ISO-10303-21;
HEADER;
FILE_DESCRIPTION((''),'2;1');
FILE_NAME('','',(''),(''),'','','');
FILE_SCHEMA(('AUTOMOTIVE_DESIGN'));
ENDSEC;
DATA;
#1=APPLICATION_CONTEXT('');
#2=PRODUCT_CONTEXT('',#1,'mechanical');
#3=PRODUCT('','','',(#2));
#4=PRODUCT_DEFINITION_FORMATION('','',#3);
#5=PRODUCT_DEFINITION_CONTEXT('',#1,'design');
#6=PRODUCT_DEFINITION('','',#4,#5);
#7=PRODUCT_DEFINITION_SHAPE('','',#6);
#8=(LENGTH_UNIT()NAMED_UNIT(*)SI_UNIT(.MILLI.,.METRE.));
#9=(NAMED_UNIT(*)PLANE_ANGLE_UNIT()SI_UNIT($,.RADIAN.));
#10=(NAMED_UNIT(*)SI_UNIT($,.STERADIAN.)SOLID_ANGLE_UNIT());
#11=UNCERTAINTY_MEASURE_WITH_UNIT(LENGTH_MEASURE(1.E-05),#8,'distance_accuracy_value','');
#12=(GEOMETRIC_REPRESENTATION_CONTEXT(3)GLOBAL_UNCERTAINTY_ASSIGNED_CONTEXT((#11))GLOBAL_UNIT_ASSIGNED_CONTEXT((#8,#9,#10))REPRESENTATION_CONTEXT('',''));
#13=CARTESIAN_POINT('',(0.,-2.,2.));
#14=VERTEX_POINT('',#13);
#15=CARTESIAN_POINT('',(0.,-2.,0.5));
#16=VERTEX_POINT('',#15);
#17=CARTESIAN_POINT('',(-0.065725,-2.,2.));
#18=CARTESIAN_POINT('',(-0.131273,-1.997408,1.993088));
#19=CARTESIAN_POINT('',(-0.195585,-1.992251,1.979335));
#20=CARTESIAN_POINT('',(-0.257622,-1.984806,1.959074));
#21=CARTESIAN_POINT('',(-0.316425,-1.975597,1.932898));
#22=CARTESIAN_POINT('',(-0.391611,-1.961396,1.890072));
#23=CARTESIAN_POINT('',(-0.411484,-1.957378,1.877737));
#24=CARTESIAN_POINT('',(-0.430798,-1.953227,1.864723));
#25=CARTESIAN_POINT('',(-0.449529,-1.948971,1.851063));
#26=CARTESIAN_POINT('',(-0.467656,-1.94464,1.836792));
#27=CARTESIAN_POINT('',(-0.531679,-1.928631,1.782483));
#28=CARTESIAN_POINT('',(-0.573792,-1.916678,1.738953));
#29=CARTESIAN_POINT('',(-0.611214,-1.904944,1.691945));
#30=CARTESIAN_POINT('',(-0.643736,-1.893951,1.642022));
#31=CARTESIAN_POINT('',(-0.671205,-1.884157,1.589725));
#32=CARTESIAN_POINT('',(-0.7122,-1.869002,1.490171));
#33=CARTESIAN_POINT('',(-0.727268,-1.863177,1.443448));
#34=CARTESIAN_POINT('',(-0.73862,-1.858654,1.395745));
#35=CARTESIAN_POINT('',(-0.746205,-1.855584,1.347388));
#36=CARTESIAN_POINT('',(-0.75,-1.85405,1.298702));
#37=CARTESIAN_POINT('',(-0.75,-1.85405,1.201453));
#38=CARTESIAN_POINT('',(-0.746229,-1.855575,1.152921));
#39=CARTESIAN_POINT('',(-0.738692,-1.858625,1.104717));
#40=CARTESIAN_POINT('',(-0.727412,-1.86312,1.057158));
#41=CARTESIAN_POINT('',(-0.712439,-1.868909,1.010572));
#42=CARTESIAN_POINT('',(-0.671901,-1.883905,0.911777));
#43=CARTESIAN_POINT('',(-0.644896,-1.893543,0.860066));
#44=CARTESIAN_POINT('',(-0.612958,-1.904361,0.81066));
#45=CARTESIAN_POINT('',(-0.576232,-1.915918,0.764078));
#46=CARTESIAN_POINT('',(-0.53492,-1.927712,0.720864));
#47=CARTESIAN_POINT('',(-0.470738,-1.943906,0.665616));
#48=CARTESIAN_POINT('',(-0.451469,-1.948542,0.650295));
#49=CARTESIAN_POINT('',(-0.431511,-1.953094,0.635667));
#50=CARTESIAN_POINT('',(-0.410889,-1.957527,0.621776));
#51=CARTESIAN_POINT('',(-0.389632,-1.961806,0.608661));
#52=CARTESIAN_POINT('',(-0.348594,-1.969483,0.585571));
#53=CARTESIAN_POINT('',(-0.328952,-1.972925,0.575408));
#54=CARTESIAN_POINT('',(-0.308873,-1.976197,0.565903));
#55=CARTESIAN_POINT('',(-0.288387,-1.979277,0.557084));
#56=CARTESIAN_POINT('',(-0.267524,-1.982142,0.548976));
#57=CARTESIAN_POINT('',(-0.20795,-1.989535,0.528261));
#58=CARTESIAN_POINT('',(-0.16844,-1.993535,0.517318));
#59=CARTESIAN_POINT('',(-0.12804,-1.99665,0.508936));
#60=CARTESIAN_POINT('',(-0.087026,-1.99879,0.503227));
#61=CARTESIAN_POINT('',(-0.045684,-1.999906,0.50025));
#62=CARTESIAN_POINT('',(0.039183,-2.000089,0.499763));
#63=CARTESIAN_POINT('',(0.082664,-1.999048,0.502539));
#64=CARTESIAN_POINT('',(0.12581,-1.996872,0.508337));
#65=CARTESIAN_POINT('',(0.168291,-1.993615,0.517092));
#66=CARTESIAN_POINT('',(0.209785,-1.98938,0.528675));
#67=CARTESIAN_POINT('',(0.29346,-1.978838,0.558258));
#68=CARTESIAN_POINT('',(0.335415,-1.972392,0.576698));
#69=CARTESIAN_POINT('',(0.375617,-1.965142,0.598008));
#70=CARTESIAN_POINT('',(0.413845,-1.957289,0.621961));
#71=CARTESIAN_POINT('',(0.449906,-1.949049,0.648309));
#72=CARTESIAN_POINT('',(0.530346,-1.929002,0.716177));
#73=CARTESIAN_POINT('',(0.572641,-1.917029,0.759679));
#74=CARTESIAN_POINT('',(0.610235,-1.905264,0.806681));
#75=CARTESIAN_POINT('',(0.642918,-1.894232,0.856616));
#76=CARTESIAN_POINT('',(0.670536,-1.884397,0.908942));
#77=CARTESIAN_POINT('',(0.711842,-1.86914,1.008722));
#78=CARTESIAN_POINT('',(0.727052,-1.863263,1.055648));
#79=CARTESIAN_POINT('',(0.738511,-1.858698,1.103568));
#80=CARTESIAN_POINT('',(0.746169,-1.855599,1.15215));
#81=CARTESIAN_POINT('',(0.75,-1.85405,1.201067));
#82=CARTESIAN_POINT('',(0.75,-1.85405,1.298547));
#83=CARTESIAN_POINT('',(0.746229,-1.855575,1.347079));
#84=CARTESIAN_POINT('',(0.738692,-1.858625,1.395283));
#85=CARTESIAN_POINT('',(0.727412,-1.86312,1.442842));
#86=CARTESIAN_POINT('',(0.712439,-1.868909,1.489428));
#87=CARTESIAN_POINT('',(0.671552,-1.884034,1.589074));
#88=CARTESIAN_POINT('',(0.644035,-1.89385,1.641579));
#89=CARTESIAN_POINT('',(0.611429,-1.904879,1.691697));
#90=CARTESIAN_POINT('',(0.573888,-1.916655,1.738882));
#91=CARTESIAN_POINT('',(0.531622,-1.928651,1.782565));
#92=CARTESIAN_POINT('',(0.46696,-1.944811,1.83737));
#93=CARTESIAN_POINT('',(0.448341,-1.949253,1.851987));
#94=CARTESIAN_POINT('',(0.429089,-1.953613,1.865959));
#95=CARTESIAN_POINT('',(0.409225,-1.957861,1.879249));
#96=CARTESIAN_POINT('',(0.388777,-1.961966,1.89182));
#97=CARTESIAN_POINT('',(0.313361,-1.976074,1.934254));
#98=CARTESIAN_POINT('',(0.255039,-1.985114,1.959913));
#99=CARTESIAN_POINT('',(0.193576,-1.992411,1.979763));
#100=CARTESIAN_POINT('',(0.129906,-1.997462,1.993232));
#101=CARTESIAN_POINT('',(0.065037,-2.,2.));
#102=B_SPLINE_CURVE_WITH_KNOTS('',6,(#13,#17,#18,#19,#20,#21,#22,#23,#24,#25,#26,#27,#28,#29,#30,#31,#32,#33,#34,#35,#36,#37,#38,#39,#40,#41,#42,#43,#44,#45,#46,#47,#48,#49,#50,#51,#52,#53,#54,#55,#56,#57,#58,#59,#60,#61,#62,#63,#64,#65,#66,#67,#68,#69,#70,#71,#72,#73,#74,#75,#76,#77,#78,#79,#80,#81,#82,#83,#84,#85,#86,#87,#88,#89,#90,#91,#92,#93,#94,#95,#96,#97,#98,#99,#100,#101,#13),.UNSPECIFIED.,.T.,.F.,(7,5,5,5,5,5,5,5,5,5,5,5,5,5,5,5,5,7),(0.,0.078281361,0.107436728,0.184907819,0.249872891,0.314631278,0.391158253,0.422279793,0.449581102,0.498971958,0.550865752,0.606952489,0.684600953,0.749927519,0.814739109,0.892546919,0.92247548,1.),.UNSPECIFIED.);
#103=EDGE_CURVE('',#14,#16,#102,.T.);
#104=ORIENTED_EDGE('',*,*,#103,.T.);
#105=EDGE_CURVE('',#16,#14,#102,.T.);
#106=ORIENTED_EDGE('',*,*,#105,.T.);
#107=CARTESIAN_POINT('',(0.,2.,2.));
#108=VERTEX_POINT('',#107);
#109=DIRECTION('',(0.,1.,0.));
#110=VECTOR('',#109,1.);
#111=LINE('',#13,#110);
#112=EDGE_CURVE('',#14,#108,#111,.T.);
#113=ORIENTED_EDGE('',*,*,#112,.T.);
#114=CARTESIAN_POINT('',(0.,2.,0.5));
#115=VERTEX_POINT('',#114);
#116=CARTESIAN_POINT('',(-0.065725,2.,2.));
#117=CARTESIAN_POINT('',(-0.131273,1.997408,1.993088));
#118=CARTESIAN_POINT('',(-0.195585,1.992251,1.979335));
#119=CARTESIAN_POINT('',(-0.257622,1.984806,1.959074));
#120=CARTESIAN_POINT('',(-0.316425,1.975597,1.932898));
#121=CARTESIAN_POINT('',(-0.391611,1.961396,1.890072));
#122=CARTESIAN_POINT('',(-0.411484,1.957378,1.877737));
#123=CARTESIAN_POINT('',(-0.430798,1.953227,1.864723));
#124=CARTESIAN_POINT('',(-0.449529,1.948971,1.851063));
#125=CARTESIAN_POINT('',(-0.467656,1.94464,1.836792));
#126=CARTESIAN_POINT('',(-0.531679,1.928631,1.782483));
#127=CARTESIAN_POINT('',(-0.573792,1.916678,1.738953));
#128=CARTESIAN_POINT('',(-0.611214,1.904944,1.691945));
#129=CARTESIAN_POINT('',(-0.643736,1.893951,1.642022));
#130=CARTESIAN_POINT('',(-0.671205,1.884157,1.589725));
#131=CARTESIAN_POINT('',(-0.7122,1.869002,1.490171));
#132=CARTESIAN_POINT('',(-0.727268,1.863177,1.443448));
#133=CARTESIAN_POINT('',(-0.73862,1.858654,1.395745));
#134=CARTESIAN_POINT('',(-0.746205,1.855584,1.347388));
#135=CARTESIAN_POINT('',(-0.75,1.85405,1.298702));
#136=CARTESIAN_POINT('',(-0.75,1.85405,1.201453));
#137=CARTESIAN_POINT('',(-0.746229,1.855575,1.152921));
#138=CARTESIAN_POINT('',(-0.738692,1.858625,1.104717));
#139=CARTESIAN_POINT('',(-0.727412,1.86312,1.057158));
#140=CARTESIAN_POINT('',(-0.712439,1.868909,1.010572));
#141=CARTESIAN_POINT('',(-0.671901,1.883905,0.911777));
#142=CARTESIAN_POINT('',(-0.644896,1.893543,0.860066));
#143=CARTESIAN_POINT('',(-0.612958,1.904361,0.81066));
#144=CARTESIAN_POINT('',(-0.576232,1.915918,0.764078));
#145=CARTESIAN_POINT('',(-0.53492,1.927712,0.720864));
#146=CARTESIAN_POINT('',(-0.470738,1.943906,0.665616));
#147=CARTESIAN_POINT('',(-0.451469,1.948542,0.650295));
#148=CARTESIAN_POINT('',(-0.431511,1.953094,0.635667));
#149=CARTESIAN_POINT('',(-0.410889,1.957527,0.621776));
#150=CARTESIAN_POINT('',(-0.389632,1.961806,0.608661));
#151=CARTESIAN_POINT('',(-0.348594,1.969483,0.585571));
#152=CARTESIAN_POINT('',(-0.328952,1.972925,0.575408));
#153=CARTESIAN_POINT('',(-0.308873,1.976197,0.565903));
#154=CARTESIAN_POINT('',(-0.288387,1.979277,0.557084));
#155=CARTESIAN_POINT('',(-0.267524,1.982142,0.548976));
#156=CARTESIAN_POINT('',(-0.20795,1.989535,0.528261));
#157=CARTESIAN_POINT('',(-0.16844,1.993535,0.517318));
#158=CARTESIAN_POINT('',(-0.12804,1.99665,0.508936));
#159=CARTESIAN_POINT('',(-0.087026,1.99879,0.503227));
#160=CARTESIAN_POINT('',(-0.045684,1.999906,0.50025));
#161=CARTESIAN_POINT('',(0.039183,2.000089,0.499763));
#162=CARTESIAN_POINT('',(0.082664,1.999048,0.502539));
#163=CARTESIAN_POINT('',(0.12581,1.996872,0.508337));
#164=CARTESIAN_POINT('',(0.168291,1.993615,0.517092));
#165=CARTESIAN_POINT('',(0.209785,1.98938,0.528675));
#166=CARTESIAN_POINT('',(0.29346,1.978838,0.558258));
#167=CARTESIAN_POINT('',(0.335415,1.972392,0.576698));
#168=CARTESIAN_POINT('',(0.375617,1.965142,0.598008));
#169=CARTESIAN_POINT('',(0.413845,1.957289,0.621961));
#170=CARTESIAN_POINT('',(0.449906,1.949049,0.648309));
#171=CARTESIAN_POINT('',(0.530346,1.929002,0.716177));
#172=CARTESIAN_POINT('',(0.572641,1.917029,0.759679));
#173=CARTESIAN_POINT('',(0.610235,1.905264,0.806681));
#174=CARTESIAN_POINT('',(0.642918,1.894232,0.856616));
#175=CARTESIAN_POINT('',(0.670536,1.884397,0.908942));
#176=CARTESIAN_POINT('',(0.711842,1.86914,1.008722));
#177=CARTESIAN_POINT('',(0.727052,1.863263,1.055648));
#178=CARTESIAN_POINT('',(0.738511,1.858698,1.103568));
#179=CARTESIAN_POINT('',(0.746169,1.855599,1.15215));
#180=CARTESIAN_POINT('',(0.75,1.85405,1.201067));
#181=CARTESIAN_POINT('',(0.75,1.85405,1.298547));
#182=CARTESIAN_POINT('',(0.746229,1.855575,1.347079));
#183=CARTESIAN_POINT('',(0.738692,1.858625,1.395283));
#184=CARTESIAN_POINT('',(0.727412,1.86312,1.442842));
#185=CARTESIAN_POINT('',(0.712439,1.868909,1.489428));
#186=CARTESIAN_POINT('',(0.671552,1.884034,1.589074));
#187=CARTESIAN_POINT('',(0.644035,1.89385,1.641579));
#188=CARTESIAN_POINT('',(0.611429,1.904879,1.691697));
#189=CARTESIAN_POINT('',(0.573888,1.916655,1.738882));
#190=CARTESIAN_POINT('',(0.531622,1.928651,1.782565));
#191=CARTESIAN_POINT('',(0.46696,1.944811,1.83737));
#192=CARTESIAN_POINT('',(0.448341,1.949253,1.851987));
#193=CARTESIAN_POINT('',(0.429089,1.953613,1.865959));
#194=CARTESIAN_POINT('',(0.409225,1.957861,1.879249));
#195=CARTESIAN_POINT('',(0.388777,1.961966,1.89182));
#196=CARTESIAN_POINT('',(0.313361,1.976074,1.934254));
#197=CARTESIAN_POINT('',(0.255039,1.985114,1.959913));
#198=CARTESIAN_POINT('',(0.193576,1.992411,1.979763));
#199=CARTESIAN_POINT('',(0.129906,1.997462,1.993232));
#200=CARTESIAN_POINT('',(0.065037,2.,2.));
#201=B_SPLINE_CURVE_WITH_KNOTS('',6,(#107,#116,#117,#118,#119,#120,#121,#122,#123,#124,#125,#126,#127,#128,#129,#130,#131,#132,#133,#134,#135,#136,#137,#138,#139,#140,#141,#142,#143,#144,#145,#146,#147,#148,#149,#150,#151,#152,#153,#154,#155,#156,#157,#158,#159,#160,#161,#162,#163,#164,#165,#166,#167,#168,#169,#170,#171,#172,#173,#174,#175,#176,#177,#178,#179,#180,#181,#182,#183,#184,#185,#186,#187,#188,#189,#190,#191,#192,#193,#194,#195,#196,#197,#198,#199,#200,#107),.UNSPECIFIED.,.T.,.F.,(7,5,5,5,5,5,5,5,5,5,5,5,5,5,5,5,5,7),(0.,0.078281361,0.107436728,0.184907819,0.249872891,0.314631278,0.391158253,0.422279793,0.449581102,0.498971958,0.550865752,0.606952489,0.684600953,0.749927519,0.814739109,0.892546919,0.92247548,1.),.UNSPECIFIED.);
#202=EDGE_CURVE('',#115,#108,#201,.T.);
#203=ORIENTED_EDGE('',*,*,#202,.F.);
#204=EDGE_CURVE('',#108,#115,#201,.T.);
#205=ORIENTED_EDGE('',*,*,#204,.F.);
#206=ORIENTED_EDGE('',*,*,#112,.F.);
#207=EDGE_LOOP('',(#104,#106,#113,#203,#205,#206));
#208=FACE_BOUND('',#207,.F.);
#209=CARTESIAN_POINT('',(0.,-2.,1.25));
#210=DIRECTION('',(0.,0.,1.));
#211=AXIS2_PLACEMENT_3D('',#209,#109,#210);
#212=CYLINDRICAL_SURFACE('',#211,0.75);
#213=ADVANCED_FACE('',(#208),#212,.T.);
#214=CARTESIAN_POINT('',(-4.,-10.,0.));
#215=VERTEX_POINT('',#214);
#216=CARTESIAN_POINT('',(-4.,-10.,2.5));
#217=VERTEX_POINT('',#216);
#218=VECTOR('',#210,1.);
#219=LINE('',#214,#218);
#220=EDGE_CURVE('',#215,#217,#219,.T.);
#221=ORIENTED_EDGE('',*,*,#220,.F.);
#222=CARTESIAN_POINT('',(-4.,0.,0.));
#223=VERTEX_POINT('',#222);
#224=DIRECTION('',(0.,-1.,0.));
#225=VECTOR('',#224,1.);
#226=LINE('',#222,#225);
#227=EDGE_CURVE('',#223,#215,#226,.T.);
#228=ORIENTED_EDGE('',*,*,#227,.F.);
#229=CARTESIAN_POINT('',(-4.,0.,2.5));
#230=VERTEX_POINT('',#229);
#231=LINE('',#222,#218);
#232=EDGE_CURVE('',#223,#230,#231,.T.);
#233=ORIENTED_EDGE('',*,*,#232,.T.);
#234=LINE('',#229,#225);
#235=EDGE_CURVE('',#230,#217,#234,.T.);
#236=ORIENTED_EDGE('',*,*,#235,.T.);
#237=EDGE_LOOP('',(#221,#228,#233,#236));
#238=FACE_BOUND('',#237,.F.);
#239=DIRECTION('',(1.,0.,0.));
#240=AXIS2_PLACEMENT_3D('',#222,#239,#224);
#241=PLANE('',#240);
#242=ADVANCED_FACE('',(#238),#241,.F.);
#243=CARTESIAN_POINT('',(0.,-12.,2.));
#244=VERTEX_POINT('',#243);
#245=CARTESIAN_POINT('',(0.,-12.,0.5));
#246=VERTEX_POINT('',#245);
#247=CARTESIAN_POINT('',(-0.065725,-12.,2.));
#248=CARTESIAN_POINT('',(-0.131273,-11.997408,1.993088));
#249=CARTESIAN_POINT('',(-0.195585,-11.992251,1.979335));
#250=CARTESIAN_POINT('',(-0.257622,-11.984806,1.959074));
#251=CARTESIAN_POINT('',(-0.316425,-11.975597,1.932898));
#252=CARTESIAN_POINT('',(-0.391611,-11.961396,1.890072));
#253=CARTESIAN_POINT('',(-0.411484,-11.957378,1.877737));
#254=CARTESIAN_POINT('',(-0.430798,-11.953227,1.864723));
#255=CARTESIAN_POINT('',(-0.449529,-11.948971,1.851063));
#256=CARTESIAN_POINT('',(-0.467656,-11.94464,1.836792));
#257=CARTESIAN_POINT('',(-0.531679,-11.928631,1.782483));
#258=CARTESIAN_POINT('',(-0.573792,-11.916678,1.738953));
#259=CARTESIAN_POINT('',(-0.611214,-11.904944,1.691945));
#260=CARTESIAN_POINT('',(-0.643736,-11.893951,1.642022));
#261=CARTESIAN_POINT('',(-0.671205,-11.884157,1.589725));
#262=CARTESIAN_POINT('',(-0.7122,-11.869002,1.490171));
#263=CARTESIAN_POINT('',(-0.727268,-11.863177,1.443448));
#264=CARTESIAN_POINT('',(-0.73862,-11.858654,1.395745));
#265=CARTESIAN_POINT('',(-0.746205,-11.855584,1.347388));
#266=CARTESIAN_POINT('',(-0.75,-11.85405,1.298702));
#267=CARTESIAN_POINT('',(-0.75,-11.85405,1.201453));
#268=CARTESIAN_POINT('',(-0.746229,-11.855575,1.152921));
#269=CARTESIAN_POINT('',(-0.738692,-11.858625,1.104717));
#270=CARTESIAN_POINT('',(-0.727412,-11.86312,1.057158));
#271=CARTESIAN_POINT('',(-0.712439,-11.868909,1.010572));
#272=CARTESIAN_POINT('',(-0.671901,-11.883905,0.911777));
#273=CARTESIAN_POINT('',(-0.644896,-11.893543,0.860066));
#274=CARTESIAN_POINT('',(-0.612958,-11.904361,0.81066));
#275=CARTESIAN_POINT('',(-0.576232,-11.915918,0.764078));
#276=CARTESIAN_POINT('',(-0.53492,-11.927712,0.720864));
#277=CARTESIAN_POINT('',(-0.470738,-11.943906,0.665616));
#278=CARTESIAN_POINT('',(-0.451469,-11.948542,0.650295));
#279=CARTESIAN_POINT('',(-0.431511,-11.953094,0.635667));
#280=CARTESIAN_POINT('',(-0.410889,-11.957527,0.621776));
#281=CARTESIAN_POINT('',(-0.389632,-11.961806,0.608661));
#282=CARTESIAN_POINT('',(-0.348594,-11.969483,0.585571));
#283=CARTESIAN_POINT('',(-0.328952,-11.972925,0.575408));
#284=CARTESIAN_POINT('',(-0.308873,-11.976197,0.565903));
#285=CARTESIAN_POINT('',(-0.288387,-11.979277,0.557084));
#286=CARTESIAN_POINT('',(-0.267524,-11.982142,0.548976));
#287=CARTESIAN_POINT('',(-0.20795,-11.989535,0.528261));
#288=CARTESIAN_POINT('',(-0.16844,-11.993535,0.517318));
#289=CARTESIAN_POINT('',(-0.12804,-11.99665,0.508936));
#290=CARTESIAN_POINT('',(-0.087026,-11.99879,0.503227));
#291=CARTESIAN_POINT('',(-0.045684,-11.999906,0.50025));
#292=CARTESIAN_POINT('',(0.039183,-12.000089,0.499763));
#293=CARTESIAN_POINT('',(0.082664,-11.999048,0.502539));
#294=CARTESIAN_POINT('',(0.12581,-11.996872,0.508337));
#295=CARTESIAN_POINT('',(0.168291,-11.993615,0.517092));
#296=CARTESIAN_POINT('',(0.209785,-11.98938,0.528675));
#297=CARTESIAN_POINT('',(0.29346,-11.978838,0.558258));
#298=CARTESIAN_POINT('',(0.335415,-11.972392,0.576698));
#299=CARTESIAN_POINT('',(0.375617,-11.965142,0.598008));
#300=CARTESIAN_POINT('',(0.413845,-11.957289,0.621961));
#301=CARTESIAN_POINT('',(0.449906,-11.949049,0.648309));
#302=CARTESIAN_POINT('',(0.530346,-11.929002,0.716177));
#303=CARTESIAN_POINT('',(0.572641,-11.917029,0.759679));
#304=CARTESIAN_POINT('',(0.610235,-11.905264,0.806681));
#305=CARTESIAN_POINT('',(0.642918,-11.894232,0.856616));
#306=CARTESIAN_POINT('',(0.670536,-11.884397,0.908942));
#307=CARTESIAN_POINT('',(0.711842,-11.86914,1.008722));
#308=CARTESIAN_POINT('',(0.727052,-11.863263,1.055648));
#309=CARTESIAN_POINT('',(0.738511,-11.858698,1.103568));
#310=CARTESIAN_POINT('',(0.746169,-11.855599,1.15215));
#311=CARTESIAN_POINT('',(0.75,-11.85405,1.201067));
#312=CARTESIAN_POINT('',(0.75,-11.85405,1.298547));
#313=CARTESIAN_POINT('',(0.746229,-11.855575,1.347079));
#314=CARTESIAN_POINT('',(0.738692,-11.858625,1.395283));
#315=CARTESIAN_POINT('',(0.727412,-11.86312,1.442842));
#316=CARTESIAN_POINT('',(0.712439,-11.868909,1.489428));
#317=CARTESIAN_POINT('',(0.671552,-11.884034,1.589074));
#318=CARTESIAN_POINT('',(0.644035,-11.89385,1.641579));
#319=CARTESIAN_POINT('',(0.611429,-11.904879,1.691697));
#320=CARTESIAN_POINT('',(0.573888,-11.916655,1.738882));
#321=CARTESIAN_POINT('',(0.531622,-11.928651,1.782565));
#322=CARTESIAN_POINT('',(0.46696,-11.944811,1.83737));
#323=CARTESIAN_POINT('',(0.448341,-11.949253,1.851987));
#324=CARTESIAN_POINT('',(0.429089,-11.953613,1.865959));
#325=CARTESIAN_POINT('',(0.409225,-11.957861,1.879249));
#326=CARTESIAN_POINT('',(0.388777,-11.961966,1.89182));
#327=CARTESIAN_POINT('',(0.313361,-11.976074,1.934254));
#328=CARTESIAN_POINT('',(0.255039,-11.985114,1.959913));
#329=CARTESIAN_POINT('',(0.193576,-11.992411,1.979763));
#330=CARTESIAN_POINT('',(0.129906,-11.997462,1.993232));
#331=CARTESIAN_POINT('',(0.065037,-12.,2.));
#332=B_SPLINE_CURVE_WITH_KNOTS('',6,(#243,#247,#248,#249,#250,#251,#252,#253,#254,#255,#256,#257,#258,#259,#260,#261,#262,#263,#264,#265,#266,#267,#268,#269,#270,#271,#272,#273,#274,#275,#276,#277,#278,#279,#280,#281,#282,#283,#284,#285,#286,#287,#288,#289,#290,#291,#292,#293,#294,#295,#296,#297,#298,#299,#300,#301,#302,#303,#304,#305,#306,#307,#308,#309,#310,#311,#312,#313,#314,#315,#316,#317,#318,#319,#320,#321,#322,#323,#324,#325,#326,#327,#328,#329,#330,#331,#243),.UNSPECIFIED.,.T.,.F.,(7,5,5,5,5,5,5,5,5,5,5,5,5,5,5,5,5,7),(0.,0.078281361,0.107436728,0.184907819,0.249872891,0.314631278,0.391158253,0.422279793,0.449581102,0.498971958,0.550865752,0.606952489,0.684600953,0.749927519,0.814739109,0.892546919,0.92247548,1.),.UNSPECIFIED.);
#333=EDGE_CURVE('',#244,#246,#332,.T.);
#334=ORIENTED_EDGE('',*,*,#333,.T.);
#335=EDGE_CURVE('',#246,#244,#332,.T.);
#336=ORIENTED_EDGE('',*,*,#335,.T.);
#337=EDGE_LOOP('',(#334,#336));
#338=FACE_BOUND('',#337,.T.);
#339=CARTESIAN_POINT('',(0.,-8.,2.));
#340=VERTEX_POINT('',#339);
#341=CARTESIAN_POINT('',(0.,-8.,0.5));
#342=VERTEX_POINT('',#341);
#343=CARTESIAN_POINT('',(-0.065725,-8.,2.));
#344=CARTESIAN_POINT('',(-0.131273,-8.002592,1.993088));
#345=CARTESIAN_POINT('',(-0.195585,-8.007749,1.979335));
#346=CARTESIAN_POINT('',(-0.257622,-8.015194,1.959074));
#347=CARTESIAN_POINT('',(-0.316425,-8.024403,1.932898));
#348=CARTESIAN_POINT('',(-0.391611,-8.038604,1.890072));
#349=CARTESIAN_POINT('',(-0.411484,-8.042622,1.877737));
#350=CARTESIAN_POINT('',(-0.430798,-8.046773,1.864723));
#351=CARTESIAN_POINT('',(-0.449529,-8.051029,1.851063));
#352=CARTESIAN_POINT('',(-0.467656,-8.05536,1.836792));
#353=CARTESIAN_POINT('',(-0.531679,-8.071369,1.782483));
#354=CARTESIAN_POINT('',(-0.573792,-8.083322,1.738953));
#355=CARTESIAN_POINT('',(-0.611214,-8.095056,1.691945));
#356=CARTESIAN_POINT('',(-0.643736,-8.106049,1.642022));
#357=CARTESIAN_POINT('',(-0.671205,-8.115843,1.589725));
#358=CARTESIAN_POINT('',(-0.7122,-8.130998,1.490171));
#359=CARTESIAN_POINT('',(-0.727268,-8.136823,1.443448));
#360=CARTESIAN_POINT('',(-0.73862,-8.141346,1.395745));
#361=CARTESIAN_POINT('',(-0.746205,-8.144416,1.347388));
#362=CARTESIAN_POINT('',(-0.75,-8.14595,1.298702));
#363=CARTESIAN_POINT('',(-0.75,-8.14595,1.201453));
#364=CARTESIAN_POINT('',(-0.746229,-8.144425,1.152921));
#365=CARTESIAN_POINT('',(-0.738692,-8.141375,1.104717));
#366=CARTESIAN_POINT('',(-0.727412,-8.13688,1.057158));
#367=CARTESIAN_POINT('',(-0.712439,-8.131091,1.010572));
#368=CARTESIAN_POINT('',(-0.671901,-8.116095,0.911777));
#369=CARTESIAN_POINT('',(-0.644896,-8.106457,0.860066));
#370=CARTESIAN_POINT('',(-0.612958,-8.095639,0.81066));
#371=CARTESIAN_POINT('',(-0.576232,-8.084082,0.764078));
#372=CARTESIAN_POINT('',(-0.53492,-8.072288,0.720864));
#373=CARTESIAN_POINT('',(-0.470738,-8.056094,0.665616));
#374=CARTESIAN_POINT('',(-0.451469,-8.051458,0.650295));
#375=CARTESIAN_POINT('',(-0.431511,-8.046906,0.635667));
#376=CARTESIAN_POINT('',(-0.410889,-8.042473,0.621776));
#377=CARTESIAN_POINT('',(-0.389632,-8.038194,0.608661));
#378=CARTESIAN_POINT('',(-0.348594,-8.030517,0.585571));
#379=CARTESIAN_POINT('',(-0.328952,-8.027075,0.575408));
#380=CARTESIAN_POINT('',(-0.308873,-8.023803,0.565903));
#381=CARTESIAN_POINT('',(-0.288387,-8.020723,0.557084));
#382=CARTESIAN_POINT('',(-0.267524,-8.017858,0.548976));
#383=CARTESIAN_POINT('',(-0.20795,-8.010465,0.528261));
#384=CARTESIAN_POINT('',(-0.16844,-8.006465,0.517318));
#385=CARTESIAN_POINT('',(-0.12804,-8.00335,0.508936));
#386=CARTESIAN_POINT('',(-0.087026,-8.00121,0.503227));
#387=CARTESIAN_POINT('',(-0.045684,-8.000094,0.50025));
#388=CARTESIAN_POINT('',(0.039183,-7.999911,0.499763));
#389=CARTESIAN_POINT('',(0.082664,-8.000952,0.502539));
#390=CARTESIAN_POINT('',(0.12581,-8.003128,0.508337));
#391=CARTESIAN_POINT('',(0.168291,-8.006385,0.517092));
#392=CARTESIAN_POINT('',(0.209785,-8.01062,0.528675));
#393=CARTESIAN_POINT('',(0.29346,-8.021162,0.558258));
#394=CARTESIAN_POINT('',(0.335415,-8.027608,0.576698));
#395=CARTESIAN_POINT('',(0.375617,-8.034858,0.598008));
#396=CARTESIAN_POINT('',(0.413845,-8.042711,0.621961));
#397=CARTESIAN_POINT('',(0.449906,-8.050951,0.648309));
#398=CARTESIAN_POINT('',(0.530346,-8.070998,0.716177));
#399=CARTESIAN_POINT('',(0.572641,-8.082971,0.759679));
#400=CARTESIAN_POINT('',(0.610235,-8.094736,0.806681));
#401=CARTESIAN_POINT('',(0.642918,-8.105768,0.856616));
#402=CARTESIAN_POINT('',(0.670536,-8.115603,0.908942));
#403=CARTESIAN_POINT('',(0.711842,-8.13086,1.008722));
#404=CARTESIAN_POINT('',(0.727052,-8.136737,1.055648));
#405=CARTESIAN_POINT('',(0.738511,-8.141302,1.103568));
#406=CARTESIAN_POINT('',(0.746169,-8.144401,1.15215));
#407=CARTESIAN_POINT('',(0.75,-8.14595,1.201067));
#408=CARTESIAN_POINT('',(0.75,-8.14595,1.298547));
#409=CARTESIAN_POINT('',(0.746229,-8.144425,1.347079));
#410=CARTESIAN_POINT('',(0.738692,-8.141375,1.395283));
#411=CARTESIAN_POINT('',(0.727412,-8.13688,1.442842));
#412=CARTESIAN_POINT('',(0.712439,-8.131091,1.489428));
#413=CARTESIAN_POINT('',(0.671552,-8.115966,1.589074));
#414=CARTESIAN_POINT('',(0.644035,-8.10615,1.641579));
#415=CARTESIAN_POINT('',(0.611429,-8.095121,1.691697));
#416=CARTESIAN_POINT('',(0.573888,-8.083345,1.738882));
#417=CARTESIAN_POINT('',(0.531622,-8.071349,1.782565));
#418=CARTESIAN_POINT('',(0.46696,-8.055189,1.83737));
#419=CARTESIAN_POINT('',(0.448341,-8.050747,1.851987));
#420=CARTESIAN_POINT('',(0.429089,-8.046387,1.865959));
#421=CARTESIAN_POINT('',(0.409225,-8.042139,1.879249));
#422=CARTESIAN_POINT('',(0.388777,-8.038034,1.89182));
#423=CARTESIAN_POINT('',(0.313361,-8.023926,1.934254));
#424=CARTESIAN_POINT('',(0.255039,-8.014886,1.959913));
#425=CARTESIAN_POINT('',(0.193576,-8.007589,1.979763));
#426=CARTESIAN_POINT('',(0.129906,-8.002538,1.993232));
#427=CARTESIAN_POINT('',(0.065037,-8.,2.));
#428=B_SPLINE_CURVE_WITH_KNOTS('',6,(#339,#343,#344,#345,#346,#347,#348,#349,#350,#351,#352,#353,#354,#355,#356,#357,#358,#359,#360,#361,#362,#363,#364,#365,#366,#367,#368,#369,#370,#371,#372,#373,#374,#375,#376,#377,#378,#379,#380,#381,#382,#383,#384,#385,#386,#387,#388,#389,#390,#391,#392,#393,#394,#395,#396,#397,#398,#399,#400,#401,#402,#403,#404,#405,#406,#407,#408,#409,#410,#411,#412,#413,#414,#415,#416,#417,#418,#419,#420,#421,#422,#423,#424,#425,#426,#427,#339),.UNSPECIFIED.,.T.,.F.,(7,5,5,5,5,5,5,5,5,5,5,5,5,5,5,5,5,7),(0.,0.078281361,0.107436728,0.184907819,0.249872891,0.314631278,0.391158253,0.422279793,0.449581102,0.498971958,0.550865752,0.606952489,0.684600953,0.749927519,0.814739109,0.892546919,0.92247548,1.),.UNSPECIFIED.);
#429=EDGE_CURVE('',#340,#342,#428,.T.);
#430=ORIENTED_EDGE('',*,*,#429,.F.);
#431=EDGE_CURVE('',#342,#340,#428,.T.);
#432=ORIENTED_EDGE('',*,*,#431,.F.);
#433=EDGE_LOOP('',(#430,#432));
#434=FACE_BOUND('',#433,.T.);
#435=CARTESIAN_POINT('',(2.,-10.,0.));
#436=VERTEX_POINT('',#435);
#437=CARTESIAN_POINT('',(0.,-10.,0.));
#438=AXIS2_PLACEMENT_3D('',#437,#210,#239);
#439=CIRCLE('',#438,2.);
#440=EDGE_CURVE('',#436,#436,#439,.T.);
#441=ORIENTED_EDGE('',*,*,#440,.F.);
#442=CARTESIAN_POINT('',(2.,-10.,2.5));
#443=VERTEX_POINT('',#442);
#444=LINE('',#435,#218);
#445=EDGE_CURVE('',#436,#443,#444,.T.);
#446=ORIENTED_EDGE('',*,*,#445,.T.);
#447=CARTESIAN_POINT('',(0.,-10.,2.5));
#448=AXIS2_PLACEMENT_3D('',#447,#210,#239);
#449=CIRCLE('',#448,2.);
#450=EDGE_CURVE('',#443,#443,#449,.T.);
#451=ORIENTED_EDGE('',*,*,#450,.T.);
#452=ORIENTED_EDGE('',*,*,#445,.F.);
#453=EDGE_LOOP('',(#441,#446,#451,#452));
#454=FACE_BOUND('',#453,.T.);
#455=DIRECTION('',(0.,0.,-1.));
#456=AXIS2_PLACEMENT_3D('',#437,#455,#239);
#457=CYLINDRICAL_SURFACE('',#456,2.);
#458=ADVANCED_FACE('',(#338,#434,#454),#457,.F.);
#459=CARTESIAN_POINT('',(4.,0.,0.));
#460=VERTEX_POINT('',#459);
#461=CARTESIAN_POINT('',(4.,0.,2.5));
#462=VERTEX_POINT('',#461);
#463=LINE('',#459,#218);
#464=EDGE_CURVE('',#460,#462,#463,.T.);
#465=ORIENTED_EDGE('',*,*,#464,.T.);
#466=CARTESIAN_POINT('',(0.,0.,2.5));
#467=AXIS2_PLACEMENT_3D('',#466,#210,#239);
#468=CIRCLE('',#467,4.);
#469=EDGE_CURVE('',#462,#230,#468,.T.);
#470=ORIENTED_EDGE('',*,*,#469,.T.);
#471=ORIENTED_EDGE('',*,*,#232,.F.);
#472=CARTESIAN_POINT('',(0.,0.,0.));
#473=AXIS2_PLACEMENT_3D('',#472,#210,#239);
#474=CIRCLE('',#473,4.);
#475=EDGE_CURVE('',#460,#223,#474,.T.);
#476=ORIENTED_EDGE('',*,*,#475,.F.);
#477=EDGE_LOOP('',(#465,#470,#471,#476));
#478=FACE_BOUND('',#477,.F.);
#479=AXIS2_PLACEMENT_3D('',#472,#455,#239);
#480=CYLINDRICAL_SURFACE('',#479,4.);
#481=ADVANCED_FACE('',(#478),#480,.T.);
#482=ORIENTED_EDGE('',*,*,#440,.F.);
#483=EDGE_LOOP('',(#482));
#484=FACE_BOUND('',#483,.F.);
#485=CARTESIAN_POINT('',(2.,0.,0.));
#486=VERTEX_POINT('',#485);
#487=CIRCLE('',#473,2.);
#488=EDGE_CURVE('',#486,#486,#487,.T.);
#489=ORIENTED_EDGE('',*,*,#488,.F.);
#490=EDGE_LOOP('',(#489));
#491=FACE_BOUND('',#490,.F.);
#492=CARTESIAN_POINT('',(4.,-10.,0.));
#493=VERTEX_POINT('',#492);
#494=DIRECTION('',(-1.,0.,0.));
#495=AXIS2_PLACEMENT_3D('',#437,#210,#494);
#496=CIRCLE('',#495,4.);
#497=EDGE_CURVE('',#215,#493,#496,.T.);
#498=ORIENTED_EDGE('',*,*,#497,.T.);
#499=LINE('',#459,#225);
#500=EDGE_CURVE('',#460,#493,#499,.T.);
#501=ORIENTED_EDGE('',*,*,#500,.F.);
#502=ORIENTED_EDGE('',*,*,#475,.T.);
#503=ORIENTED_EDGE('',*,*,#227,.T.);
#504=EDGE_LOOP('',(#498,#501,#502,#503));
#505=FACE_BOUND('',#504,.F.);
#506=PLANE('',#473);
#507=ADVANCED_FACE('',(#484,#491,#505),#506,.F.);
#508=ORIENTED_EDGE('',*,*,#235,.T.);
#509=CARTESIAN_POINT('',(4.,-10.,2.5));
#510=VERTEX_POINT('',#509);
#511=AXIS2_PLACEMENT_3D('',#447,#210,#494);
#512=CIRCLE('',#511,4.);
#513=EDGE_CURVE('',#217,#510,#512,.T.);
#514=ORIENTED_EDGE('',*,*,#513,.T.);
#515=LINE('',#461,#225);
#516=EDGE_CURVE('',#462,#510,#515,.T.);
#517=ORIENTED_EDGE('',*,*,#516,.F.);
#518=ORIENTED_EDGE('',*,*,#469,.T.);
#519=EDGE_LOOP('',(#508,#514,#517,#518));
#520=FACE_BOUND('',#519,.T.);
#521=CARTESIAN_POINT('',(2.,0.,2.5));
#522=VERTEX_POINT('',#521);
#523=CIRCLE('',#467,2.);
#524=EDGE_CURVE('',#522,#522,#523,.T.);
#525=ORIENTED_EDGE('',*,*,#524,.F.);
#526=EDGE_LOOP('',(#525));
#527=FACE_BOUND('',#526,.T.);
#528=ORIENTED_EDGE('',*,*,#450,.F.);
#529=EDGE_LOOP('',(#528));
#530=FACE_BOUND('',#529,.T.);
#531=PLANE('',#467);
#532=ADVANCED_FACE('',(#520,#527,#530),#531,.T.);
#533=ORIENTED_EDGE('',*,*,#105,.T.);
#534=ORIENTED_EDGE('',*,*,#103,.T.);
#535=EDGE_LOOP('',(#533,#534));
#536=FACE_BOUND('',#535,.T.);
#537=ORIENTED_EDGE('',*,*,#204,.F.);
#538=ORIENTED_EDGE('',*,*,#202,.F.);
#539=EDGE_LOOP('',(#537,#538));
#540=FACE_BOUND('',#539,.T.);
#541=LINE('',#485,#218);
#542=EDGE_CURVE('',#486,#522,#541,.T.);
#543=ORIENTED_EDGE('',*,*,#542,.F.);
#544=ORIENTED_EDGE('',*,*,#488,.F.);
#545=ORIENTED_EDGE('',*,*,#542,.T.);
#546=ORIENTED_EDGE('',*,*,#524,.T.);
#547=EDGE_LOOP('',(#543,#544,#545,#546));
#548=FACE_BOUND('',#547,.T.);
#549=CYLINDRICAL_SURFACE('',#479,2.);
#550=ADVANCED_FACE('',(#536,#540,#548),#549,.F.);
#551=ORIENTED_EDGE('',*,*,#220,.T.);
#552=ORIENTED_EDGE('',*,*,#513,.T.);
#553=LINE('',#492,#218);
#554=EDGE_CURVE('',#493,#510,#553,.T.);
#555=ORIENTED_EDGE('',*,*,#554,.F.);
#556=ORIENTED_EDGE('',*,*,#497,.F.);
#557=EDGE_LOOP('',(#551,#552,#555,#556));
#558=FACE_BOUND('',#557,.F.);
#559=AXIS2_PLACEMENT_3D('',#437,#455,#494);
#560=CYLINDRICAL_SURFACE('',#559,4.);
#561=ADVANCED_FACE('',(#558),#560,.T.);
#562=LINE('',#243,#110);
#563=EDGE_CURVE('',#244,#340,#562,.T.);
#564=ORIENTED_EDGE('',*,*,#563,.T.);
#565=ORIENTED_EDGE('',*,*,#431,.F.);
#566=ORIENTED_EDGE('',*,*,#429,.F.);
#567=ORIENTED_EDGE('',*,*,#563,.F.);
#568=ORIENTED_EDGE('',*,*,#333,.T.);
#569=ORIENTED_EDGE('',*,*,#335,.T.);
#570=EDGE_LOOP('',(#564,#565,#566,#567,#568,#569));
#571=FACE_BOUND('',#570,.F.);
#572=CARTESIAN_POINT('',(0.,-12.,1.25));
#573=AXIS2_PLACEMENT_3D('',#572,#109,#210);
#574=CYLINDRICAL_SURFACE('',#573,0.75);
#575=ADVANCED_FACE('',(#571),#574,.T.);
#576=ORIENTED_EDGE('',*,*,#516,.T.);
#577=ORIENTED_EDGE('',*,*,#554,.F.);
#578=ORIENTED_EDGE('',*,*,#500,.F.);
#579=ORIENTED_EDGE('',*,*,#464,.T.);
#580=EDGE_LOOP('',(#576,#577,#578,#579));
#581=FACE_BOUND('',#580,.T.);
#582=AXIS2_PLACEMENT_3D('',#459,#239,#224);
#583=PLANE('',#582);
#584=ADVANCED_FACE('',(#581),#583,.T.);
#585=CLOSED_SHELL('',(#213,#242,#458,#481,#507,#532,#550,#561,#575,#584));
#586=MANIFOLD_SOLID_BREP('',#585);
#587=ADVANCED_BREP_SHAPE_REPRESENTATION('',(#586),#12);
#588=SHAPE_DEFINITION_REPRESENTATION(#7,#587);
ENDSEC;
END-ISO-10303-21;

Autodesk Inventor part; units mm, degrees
ref_plane "YZ Plane" through (0, 0, 0) normal (1, 0, 0) x (0, 1, 0)
ref_plane "XZ Plane" through (0, 0, 0) normal (0, 1, 0) x (-1, 0, 0)
ref_plane "XY Plane" through (0, 0, 0) normal (0, 0, 1) x (1, 0, 0)
sketch "Sketch1" plane through (0, 0, 0) normal (0, 0, 1) x (1, 0, 0)
  arc A0 (4, 0) -> (-4, 0) centre (0, 0) ccw
  line L0 (0, 0) -> (0, -10) construction
  line L1 (-4, 0) -> (-4, -10)
  line L2 (4, 0) -> (4, -10)
  arc A1 (-4, -10) -> (4, -10) centre (0, -10) ccw
  circle A2 centre (0, 0) radius 2
  circle A3 centre (0, -10) radius 2
  dimension "d0" = 8
  dimension "d2" = 8
  dimension "d3" = 10
  dimension "d4" = 4
  dimension "d5" = 4
extrude "Extrusion1" add sketch "Sketch1" along normal blind 2.5
sketch "Sketch4" plane through (0, 0, 0) normal (1, 0, 0) x (0, 1, 0)
  line L0 (2, 2.5) -> (2, 0) projected
  line L1 (-2, 2.5) -> (-2, 0) projected
  line L2 (2, 1.25) -> (-2, 1.25)
  line L3 (-2, 1.25) -> (-2, 2)
  line L4 (-2, 2) -> (2, 2)
  line L5 (2, 2) -> (2, 1.25)
  point P0 (0, 0)
  dimension "d14" = 1.5
revolve "Revolution1" add sketch "Sketch4" angle 360 about axis through (0, 2, 1.25) along (0, -1, 0)
sketch "Sketch5" plane through (0, 0, 0) normal (1, 0, 0) x (0, 1, 0)
  line L0 (-8, 2.5) -> (-8, 0) projected
  line L1 (-12, 2.5) -> (-12, 0) projected
  line L2 (-8, 1.25) -> (-12, 1.25)
  line L3 (-12, 1.25) -> (-12, 2)
  line L4 (-12, 2) -> (-8, 2)
  line L5 (-8, 2) -> (-8, 1.25)
  point P0 (0, 0)
  dimension "d16" = 1.5
revolve "Revolution2" add sketch "Sketch5" angle 360 about axis through (0, -8, 1.25) along (0, -1, 0)
properties part number "1-16"
